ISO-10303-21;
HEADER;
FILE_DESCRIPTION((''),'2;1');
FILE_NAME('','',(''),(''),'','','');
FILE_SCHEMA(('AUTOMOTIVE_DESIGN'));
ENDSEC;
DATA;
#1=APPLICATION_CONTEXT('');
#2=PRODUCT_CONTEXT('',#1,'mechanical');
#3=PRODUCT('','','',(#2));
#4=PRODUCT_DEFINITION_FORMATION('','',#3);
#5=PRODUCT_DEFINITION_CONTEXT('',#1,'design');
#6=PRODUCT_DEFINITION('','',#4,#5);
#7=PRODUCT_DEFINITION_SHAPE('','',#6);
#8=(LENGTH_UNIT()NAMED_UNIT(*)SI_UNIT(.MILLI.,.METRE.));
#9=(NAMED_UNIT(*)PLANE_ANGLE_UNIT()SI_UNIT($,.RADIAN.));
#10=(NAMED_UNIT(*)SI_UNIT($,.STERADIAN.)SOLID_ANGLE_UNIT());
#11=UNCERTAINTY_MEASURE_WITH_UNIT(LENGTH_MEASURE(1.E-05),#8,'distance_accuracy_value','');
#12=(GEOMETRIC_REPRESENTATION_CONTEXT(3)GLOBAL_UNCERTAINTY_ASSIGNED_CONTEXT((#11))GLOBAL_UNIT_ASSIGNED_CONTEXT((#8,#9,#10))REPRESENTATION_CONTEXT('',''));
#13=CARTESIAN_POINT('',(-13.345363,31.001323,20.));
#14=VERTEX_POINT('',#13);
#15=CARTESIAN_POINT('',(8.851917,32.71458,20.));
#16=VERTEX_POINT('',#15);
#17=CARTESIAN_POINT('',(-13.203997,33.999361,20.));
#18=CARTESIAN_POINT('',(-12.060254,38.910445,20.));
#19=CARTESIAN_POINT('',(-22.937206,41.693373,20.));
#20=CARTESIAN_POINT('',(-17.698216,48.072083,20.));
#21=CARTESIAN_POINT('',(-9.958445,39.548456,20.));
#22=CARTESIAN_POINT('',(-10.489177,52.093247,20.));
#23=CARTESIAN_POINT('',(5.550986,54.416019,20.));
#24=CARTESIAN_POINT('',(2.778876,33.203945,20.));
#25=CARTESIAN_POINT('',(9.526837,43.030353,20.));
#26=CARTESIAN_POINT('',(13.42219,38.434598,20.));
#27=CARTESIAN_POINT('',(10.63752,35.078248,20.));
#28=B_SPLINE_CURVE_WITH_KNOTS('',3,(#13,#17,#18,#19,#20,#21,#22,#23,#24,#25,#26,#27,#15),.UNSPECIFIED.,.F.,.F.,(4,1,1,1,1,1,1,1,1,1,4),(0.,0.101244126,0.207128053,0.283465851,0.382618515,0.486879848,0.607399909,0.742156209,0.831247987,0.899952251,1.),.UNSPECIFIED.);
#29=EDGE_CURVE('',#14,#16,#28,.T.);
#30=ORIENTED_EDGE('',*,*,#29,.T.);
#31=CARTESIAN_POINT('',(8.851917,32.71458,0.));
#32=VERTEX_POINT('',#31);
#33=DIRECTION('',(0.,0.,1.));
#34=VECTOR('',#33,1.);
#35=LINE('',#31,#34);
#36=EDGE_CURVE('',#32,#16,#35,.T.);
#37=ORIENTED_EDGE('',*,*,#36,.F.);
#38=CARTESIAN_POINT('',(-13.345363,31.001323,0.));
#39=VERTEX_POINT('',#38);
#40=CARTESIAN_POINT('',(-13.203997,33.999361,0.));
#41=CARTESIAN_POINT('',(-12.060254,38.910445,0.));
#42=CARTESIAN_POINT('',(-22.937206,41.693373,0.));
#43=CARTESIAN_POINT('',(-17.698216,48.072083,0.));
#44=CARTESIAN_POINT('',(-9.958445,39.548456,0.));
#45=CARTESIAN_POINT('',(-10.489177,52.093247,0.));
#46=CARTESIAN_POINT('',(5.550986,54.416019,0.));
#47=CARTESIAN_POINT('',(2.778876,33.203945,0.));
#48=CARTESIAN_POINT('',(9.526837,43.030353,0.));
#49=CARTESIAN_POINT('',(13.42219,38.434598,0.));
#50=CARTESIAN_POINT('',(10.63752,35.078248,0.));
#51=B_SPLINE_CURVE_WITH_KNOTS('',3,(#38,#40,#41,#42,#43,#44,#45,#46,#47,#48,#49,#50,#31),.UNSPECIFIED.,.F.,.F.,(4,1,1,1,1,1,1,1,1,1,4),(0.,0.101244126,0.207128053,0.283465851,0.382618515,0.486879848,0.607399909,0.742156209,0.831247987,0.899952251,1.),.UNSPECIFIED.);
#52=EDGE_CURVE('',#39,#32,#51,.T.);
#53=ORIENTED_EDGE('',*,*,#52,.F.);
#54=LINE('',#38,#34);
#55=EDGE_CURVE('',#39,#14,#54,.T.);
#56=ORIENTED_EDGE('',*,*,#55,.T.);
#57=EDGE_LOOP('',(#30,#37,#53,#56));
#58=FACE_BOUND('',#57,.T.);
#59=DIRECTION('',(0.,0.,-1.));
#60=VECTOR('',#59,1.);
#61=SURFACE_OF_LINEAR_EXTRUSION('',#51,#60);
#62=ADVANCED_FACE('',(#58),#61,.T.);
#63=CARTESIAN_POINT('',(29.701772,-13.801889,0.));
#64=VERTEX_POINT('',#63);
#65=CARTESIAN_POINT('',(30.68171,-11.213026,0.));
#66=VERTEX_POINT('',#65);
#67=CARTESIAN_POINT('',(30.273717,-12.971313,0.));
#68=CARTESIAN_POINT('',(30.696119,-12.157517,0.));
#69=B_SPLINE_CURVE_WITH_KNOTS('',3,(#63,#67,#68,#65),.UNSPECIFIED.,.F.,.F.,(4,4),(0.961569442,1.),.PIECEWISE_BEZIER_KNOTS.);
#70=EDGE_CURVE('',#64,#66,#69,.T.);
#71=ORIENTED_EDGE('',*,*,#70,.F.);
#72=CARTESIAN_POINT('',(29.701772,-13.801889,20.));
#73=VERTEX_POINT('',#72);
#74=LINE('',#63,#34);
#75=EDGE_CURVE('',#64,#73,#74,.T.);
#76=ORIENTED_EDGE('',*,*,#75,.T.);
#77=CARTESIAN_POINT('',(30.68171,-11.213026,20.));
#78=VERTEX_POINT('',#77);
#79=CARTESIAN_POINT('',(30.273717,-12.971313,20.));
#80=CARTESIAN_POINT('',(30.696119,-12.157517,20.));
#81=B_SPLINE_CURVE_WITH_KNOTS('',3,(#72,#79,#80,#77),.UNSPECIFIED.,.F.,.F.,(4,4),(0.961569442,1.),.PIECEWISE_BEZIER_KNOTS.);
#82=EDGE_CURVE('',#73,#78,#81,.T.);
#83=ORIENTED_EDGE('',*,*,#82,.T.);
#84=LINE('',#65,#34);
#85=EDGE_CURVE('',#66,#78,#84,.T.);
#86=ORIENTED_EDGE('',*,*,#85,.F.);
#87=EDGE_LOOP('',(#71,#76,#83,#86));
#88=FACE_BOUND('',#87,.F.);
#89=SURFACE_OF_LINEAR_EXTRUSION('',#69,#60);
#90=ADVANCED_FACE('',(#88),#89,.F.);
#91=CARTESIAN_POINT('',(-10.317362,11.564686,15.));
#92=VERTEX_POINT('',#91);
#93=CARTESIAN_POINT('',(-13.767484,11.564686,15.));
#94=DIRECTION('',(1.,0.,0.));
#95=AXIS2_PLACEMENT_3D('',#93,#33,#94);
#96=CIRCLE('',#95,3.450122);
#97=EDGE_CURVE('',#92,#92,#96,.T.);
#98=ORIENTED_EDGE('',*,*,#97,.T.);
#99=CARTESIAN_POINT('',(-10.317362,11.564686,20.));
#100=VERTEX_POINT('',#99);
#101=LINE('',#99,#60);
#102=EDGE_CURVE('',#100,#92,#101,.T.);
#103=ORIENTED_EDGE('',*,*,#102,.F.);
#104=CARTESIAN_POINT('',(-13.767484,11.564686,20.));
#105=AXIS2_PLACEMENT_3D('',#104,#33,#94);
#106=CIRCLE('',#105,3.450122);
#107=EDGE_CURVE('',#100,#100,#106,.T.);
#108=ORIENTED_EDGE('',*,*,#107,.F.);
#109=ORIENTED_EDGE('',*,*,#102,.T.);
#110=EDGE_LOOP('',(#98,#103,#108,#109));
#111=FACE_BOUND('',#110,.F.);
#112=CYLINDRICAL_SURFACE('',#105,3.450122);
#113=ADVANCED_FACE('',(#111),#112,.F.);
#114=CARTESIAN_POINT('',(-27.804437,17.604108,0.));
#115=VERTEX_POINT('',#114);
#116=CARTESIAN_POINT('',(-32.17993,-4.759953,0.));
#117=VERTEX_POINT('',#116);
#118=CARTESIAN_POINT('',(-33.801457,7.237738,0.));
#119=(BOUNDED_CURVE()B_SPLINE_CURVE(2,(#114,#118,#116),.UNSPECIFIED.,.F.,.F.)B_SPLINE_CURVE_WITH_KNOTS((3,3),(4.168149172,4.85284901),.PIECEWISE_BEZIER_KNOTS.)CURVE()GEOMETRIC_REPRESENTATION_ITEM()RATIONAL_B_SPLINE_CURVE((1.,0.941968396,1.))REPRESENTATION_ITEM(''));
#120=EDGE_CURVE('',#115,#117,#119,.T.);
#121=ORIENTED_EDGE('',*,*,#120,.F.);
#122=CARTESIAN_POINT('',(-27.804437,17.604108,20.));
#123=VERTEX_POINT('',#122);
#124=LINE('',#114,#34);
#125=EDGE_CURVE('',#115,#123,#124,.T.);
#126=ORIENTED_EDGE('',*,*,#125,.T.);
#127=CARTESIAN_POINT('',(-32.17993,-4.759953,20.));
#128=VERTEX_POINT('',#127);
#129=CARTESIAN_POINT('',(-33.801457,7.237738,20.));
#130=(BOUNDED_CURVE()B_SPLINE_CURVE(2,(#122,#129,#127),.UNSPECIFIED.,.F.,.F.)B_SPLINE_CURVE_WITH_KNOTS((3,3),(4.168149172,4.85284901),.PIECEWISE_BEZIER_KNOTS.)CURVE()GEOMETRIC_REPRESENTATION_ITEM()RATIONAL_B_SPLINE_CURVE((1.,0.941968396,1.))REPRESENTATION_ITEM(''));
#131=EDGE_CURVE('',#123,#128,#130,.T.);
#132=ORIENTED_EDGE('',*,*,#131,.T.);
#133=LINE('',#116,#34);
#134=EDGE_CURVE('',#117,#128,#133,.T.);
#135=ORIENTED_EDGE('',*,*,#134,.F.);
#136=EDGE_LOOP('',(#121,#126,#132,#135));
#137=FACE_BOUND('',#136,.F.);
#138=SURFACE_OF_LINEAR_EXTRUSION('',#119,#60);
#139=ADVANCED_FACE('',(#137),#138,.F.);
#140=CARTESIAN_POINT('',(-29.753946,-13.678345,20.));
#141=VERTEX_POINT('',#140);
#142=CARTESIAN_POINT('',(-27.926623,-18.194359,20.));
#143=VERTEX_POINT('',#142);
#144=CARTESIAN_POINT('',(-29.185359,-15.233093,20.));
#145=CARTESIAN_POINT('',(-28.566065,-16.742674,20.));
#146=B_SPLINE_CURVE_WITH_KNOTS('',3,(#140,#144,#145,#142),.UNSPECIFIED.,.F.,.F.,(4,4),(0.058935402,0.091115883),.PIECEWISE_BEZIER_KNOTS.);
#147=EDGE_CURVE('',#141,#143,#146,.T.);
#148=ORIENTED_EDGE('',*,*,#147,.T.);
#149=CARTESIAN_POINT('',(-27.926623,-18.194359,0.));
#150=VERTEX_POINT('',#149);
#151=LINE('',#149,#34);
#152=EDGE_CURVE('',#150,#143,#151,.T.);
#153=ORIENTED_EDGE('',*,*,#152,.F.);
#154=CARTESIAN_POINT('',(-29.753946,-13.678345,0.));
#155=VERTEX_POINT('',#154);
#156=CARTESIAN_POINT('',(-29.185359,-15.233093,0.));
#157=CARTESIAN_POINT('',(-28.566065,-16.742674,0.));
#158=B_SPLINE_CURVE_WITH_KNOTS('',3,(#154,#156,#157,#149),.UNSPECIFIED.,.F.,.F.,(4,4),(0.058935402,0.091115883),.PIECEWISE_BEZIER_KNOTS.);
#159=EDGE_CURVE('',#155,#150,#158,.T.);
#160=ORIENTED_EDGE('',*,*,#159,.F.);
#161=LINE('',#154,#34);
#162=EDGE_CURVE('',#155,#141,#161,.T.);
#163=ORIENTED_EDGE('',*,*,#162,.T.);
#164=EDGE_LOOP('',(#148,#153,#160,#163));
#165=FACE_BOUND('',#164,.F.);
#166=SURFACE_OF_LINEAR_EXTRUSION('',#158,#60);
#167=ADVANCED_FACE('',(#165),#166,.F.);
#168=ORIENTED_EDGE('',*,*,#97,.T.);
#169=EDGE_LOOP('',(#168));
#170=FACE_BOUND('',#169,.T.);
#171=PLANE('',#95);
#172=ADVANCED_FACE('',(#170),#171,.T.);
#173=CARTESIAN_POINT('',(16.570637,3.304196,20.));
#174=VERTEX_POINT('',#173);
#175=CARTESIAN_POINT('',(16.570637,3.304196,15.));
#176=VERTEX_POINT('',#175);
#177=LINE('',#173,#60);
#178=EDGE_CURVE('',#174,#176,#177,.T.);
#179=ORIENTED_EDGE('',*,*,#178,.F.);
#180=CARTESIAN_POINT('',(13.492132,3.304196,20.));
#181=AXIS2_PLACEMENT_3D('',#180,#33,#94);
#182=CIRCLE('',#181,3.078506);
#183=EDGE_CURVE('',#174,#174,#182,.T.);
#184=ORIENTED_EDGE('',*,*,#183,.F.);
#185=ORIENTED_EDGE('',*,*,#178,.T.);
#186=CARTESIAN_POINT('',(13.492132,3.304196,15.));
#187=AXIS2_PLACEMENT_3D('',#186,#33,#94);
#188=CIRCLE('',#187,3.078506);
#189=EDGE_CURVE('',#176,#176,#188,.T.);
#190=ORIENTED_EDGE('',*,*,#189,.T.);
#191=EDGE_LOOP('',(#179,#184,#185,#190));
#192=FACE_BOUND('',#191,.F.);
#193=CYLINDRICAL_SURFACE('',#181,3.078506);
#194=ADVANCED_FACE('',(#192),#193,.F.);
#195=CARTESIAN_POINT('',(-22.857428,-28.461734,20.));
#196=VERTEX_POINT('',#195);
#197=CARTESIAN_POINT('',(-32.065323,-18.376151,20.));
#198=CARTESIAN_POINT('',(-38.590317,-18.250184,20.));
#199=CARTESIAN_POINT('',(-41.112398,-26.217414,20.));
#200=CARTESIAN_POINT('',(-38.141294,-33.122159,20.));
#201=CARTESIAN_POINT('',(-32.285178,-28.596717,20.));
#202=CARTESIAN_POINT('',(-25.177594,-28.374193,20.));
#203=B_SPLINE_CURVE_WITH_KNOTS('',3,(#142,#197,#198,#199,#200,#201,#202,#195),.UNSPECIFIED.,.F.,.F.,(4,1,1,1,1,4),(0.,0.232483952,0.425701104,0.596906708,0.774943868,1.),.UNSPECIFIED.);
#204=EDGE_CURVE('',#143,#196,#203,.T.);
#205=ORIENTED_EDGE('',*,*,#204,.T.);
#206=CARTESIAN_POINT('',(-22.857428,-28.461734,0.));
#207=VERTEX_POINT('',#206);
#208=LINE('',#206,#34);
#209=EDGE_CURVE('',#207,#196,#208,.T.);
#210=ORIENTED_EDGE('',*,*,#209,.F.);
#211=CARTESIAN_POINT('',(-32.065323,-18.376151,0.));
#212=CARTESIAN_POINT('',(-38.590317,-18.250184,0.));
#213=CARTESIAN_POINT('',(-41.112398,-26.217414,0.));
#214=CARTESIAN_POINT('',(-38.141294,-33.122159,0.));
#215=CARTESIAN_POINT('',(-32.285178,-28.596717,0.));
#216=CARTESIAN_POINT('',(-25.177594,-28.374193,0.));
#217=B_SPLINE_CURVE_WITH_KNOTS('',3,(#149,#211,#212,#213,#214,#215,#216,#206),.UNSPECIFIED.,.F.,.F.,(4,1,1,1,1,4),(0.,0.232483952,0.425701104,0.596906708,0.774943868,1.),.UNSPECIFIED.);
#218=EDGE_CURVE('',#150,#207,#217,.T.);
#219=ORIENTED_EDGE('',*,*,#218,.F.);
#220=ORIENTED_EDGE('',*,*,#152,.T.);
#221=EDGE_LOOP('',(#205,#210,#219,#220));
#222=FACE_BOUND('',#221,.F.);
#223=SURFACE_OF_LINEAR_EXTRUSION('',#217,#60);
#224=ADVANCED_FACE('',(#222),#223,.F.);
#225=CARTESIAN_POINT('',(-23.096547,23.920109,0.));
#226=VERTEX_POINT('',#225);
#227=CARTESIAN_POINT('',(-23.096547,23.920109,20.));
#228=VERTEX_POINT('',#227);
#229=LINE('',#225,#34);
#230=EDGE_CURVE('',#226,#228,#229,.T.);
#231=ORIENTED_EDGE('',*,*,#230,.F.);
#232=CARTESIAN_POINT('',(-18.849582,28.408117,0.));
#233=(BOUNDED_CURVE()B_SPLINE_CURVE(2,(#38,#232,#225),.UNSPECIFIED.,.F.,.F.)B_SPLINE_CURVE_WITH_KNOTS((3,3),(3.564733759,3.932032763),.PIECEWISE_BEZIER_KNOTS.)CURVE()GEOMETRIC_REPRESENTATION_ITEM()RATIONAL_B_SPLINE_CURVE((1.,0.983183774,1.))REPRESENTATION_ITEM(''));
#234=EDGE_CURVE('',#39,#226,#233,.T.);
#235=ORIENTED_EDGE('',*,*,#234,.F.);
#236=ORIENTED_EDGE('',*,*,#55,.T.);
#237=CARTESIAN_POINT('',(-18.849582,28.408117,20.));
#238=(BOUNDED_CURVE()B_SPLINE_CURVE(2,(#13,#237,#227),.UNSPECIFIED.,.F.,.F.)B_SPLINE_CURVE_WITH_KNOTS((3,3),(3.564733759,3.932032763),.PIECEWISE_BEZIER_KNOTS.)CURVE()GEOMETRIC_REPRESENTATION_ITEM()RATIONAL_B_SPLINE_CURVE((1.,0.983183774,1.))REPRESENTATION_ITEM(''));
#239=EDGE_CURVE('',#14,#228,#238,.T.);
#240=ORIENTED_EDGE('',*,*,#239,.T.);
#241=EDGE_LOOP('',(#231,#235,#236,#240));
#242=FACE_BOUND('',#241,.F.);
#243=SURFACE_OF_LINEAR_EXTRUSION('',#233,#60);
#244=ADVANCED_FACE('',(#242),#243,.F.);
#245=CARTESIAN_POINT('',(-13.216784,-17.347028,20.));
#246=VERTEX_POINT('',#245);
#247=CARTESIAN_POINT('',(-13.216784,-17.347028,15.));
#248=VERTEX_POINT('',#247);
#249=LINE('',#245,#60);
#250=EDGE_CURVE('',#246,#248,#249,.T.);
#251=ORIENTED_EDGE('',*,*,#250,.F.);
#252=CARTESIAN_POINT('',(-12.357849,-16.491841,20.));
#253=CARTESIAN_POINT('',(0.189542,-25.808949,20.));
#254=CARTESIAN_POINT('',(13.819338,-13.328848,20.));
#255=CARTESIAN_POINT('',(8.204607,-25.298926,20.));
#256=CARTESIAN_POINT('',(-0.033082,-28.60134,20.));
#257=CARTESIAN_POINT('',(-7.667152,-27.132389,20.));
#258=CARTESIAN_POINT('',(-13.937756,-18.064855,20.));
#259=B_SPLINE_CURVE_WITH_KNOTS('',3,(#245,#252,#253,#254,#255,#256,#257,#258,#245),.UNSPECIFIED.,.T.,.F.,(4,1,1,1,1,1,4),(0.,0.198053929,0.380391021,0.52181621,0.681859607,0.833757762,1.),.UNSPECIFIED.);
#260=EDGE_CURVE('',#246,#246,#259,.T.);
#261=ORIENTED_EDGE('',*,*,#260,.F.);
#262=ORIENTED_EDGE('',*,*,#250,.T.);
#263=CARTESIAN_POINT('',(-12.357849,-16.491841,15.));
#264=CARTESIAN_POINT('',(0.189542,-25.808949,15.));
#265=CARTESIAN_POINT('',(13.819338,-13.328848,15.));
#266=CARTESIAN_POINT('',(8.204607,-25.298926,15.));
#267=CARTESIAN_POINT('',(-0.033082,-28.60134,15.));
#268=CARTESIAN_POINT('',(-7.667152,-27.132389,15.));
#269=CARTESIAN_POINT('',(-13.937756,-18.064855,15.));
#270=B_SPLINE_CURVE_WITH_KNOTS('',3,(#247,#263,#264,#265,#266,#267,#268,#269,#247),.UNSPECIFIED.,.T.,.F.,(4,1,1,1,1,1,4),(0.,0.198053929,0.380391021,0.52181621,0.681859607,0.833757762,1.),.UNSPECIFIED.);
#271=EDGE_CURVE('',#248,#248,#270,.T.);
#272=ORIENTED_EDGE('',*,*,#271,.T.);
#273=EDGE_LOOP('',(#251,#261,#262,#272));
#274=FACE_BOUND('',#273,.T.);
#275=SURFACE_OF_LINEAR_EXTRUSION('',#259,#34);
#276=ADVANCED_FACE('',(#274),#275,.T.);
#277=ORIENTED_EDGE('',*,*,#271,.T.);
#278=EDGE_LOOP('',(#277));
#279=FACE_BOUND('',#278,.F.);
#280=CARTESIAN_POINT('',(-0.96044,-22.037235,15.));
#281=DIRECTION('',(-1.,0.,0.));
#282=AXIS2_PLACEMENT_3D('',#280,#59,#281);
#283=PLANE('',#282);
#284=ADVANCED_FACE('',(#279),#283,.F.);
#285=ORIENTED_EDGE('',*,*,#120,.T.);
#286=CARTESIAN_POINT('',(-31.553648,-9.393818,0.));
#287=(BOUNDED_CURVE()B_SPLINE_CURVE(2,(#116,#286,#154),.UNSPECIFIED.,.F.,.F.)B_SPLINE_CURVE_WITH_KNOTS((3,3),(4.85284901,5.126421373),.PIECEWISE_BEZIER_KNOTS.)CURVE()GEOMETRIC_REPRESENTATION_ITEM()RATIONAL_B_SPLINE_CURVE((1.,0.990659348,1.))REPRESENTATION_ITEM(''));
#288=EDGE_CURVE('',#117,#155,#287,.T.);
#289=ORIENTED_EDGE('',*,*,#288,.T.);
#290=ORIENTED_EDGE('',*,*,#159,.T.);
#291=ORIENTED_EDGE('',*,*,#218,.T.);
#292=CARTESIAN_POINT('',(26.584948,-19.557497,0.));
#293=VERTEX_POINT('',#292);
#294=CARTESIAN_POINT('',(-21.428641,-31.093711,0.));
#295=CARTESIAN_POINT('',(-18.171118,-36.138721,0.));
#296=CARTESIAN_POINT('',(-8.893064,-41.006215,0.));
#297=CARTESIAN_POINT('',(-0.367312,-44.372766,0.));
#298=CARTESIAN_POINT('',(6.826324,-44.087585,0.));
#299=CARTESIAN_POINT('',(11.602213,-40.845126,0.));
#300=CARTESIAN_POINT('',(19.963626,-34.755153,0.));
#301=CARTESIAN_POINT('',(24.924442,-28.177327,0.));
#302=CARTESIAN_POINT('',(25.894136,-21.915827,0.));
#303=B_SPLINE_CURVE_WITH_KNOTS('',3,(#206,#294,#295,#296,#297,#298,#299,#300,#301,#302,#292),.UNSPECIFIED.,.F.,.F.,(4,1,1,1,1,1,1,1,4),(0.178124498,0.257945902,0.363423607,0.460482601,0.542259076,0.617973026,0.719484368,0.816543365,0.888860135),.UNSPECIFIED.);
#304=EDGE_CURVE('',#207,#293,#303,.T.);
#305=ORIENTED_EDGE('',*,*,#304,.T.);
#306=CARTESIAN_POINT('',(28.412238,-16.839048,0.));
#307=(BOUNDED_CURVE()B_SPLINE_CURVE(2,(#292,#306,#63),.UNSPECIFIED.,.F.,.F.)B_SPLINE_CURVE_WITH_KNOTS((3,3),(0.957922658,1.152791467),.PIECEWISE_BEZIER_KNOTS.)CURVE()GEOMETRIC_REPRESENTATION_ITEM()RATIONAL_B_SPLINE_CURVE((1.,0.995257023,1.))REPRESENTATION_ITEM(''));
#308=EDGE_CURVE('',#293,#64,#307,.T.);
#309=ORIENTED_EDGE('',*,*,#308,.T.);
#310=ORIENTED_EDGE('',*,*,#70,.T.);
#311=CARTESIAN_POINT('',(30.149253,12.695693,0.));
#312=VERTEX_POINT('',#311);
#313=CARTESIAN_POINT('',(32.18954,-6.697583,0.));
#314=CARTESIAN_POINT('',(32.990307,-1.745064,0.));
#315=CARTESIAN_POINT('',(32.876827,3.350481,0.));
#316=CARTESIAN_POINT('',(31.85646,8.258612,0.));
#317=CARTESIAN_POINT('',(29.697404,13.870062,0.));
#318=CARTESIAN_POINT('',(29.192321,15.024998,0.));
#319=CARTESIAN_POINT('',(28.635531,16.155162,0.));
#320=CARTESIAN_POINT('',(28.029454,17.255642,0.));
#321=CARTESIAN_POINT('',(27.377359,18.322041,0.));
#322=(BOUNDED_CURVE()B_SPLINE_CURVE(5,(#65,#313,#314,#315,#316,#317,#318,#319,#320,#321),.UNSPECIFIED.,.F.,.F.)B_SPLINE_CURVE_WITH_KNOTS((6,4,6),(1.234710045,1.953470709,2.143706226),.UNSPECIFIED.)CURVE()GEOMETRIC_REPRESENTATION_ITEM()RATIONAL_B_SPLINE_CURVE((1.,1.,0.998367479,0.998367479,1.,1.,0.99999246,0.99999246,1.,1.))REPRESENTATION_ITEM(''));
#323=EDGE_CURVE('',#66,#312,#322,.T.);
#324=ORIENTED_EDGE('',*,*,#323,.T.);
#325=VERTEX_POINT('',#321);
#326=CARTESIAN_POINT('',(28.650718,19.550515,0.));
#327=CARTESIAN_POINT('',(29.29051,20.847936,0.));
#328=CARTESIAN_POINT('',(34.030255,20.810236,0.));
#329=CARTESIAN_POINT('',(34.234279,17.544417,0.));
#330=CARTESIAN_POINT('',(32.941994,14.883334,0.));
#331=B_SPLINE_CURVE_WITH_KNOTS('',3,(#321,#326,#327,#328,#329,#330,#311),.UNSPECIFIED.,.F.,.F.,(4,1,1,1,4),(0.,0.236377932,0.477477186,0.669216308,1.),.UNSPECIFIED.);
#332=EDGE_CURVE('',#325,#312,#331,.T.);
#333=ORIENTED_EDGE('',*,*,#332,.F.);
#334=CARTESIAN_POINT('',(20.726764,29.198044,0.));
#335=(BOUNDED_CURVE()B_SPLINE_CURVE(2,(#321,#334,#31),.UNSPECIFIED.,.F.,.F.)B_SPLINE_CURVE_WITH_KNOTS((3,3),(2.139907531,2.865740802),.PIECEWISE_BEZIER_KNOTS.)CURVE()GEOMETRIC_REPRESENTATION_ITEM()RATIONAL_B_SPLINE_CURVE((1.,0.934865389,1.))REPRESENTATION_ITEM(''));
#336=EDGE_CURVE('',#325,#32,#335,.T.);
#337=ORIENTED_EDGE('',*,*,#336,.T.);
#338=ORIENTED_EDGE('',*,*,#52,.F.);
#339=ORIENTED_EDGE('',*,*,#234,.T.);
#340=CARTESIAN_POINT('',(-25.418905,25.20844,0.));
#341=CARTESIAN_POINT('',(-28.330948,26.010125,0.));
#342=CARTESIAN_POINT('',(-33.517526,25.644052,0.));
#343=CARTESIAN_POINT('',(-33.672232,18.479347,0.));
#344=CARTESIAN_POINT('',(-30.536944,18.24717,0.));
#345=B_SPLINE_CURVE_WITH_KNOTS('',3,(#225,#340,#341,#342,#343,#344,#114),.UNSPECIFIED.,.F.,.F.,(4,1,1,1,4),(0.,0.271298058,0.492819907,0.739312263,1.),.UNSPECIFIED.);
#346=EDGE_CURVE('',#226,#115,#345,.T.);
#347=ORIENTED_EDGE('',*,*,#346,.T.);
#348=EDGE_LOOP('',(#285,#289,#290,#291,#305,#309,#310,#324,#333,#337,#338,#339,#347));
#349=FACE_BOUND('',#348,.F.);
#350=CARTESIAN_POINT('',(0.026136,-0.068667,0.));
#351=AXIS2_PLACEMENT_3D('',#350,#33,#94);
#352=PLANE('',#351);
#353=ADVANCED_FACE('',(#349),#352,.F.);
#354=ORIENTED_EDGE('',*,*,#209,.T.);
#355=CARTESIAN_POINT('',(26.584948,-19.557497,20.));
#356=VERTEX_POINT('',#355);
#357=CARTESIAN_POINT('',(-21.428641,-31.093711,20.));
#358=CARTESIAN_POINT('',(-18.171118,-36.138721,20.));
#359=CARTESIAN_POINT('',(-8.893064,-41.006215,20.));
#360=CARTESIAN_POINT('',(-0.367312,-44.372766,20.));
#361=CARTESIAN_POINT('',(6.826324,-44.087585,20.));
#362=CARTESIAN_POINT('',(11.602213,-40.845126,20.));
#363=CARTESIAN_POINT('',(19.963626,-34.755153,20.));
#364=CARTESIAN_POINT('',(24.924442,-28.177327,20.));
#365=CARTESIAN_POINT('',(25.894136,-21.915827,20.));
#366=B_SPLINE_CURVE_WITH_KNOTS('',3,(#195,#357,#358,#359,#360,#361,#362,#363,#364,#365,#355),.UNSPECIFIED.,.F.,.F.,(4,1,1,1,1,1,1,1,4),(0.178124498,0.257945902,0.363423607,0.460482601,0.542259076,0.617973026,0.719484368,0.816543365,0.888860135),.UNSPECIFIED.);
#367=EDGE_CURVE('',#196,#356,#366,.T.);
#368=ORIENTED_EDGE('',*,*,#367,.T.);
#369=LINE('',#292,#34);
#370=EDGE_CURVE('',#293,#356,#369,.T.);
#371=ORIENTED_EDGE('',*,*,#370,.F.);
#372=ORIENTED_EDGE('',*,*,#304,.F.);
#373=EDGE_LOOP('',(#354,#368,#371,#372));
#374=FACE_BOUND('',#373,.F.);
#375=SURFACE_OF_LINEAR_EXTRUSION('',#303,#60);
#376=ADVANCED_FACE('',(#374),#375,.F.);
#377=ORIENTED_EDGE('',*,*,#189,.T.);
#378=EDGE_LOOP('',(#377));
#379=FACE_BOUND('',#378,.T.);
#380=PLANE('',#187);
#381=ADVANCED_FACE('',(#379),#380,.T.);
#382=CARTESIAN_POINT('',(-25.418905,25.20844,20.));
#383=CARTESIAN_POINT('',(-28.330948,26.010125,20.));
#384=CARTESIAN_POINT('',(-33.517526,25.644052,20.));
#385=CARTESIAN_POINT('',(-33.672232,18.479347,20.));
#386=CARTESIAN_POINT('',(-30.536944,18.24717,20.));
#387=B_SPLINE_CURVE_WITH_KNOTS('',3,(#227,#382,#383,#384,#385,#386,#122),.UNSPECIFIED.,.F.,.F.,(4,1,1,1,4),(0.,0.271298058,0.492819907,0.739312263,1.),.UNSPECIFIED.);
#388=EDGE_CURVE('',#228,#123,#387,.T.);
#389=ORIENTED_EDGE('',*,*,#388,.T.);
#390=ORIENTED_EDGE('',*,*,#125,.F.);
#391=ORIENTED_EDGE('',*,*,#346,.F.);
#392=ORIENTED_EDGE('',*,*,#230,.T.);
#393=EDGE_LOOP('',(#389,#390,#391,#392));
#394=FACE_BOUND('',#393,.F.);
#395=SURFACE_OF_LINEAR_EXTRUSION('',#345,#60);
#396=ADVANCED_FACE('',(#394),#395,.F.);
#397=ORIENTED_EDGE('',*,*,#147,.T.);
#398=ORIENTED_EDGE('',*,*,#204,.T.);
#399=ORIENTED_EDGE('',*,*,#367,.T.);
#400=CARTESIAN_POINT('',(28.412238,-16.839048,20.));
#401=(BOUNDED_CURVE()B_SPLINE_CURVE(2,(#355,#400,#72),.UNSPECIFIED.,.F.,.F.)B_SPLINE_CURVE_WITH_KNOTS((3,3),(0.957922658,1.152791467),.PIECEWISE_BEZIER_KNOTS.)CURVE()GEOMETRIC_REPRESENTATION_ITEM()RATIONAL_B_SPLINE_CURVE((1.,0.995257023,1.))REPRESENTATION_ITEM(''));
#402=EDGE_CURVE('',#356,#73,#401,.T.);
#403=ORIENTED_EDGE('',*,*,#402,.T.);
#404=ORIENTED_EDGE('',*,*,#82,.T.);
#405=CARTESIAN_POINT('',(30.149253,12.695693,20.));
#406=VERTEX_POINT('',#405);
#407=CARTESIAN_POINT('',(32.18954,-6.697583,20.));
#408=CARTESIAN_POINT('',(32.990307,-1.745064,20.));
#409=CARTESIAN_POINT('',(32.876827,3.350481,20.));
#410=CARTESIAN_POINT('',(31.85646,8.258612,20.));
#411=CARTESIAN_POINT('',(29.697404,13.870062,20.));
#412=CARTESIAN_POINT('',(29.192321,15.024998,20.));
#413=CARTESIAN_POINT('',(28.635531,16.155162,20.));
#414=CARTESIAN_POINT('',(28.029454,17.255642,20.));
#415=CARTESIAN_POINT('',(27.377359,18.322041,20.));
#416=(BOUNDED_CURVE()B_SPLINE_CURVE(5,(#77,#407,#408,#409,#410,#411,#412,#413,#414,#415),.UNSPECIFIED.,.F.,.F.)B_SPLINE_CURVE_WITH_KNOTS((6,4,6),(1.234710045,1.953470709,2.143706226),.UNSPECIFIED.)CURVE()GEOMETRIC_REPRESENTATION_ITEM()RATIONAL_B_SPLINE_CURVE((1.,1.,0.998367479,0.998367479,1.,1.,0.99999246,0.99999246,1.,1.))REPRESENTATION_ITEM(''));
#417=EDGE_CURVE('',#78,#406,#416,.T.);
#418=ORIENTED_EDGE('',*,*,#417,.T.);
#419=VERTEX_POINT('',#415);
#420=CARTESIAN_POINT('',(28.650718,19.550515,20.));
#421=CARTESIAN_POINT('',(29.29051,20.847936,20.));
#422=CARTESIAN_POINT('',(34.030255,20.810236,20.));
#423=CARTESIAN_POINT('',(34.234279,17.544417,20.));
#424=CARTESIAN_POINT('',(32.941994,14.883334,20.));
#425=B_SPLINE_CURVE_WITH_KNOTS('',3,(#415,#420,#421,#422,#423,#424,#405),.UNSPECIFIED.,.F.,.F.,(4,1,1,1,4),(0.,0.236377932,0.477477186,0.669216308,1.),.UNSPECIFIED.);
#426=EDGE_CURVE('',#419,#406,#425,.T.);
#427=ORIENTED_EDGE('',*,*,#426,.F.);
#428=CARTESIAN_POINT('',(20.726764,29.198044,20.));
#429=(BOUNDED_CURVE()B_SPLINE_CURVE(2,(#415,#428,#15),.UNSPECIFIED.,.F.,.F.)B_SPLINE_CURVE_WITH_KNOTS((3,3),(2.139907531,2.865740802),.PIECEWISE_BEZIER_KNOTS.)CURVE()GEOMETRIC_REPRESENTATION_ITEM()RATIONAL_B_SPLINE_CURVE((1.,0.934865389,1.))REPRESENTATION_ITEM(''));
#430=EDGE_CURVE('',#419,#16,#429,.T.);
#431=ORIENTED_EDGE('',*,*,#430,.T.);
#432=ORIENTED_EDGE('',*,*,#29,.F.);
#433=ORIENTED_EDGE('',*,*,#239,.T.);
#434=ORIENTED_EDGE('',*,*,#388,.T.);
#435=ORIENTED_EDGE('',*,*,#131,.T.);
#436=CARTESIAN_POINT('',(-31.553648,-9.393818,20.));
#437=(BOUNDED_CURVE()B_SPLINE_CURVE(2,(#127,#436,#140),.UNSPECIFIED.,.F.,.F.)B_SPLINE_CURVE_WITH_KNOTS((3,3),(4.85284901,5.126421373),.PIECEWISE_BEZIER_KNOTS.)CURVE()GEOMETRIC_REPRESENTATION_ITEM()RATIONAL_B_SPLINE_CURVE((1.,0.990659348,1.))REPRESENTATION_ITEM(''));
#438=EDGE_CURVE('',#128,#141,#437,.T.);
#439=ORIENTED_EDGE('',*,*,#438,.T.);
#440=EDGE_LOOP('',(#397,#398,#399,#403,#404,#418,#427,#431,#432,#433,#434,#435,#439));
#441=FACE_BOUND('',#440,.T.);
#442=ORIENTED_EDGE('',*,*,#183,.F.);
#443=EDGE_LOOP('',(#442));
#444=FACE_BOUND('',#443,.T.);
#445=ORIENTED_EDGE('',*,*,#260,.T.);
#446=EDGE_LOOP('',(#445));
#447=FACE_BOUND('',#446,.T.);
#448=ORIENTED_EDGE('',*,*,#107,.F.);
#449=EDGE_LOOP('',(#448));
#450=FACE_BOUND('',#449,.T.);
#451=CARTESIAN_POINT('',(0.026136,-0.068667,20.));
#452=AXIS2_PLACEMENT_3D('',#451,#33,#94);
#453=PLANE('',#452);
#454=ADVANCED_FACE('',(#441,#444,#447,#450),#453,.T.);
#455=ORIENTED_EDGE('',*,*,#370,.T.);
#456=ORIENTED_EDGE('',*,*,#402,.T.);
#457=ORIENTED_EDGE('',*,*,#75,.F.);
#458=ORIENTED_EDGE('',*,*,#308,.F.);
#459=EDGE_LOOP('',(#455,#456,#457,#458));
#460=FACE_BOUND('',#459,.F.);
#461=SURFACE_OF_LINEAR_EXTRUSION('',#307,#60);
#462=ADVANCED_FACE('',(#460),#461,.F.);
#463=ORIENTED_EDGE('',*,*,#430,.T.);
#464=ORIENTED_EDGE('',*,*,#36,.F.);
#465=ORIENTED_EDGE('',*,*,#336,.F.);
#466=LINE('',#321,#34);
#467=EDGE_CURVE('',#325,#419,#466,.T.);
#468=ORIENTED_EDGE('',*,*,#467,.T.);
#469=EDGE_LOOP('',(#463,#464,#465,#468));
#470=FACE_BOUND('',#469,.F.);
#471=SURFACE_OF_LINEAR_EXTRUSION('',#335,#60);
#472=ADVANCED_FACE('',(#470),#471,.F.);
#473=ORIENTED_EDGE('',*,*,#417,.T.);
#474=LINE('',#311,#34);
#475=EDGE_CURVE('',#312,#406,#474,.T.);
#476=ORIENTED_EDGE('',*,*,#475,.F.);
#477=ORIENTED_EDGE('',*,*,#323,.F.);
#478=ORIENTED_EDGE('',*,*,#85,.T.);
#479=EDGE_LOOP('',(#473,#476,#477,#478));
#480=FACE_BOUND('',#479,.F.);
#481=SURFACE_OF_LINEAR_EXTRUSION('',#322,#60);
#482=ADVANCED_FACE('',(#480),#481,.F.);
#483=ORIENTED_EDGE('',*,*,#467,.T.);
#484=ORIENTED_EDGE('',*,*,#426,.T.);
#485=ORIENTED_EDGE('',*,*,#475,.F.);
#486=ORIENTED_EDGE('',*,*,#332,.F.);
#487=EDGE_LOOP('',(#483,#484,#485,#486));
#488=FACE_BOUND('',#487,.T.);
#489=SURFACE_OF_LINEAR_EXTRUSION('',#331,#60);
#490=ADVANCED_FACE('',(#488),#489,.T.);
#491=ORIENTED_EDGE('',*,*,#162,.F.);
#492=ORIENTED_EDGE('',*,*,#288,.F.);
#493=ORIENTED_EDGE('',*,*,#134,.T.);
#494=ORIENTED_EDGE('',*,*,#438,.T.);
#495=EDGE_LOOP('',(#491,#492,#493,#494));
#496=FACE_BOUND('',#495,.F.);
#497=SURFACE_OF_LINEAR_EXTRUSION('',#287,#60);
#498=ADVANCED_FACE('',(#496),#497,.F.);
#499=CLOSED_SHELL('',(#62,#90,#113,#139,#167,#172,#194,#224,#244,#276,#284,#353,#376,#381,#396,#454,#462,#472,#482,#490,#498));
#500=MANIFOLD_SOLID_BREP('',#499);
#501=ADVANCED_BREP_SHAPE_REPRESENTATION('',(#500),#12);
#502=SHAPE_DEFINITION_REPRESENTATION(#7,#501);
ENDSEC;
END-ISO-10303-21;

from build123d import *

# Parameters (mm, degrees)
F1_DEPTH = 20
F2_R     = 3.450121942
F2_R_2   = 3.0785056901
F3_DEPTH = 5


with BuildPart() as f1:
    # F0 (on Top) → F1 (new body)
    with BuildSketch(Plane.XY):
        with BuildLine():
            add(Edge.make_bspline(
                [(29.7017715109, -13.8018886657), (30.2424490524, -12.5284639479), (30.6817100321, -11.213025644)],
                knots=[1.1527914673, 1.1527914673, 1.1527914673, 1.2347100445, 1.2347100445, 1.2347100445], degree=2, weights=[1, 0.9991612856, 1]))
            add(Edge.make_bspline(
                [(30.6817100321, -11.213025644), (34.708540224, 0.8459709936), (30.1492533044, 12.695693315)],
                knots=[1.2347100445, 1.2347100445, 1.2347100445, 1.9534707094, 1.9534707094, 1.9534707094], degree=2, weights=[1, 0.9361149369, 1]))
            add(Edge.make_bspline(
                [(30.1492533044, 12.695693315), (29.0147047765, 15.6444186865), (27.3773586249, 18.3220409535)],
                knots=[1.9534707094, 1.9534707094, 1.9534707094, 2.1399075308, 2.1399075308, 2.1399075308], degree=2, weights=[1, 0.9956583093, 1]))
            add(Edge.make_bspline(
                [(27.3773586249, 18.3220409535), (20.7267636074, 29.19804374), (8.8519171525, 32.7145800478)],
                knots=[2.1399075308, 2.1399075308, 2.1399075308, 2.8657408022, 2.8657408022, 2.8657408022], degree=2, weights=[1, 0.9348653888, 1]))
            add(Edge.make_bspline(
                [(8.8519171525, 32.7145800478), (-2.5451541307, 36.089631264), (-13.3453627293, 31.0013230552)],
                knots=[2.8657408022, 2.8657408022, 2.8657408022, 3.5647337592, 3.5647337592, 3.5647337592], degree=2, weights=[1, 0.9395452502, 1]))
            add(Edge.make_bspline(
                [(-13.3453627293, 31.0013230552), (-18.8495819488, 28.4081172313), (-23.096546599, 23.9201088971)],
                knots=[3.5647337592, 3.5647337592, 3.5647337592, 3.9320327626, 3.9320327626, 3.9320327626], degree=2, weights=[1, 0.9831837737, 1]))
            add(Edge.make_bspline(
                [(-23.096546599, 23.9201088971), (-25.8085364067, 21.0541955067), (-27.8044370726, 17.6041079287)],
                knots=[3.9320327626, 3.9320327626, 3.9320327626, 4.1681491719, 4.1681491719, 4.1681491719], degree=2, weights=[1, 0.9930392206, 1]))
            add(Edge.make_bspline(
                [(-27.8044370726, 17.6041079287), (-33.8014571444, 7.2377380943), (-32.1799301678, -4.7599533709)],
                knots=[4.1681491719, 4.1681491719, 4.1681491719, 4.85284901, 4.85284901, 4.85284901], degree=2, weights=[1, 0.9419683956, 1]))
            add(Edge.make_bspline(
                [(-32.1799301678, -4.7599533709), (-31.6664898484, -7.8321181347), (-30.7952557297, -10.8309770505), (-29.7539456963, -13.6783451409)],
                knots=[0, 0, 0, 0, 0.0589354021, 0.0589354021, 0.0589354021, 0.0589354021], degree=3))
            add(Edge.make_bspline(
                [(-29.7539456963, -13.6783451409), (-21.2178956859, -34), (0, -34)],
                knots=[5.1264213734, 5.1264213734, 5.1264213734, 6.2831853072, 6.2831853072, 6.2831853072], degree=2, weights=[1, 0.8373482755, 1]))
            add(Edge.make_bspline(
                [(0, -34), (16.8769695088, -34), (26.5849481495, -19.5574965996)],
                knots=[0, 0, 0, 0.9579226583, 0.9579226583, 0.9579226583], degree=2, weights=[1, 0.8874740808, 1]))
            add(Edge.make_bspline(
                [(26.5849481495, -19.5574965996), (26.8844022138, -18.5352047025), (27.6995992329, -16.3013966795), (29.0862082372, -14.6958061684), (29.7017715109, -13.8018886657)],
                knots=[0.8888601347, 0.8888601347, 0.8888601347, 0.8888601347, 0.9202080916, 0.9615694415, 0.9615694415, 0.9615694415, 0.9615694415], degree=3))
        make_face()
        with BuildLine():
            add(Edge.make_bspline(
                [(29.7017715109, -13.8018886657), (30.2737170696, -12.9713125619), (30.6961194256, -12.1575167226), (30.6817100321, -11.213025644)],
                knots=[0.9615694415, 0.9615694415, 0.9615694415, 0.9615694415, 1, 1, 1, 1], degree=3))
            add(Edge.make_bspline(
                [(29.7017715109, -13.8018886657), (30.2424490524, -12.5284639479), (30.6817100321, -11.213025644)],
                knots=[1.1527914673, 1.1527914673, 1.1527914673, 1.2347100445, 1.2347100445, 1.2347100445], degree=2, weights=[1, 0.9991612856, 1]))
        make_face()
        with BuildLine():
            add(Edge.make_bspline(
                [(30.1492533044, 12.695693315), (29.0147047765, 15.6444186865), (27.3773586249, 18.3220409535)],
                knots=[1.9534707094, 1.9534707094, 1.9534707094, 2.1399075308, 2.1399075308, 2.1399075308], degree=2, weights=[1, 0.9956583093, 1]))
            add(Edge.make_bspline(
                [(27.3773586249, 18.3220409535), (28.6507177117, 19.5505148249), (29.2905101337, 20.8479356906), (34.0302548794, 20.8102361344), (34.2342793663, 17.5444166895), (32.9419942754, 14.8833340498), (30.1492533044, 12.695693315)],
                knots=[0, 0, 0, 0, 0.2363779321, 0.4774771861, 0.6692163083, 1, 1, 1, 1], degree=3))
        make_face()
        with BuildLine():
            add(Edge.make_bspline(
                [(26.5849481495, -19.5574965996), (28.4122378854, -16.8390482797), (29.7017715109, -13.8018886657)],
                knots=[0.9579226583, 0.9579226583, 0.9579226583, 1.1527914673, 1.1527914673, 1.1527914673], degree=2, weights=[1, 0.9952570225, 1]))
            add(Edge.make_bspline(
                [(26.5849481495, -19.5574965996), (26.8844022138, -18.5352047025), (27.6995992329, -16.3013966795), (29.0862082372, -14.6958061684), (29.7017715109, -13.8018886657)],
                knots=[0.8888601347, 0.8888601347, 0.8888601347, 0.8888601347, 0.9202080916, 0.9615694415, 0.9615694415, 0.9615694415, 0.9615694415], degree=3))
        make_face()
        with BuildLine():
            add(Edge.make_bspline(
                [(-22.8574276114, -28.461734013), (-21.4286408263, -31.0937109557), (-18.1711184134, -36.1387207151), (-8.8930644294, -41.0062149861), (-0.3673117397, -44.372766183), (6.8263243633, -44.0875854195), (11.6022133081, -40.8451261159), (19.9636257208, -34.7551525668), (24.9244424304, -28.1773265534), (25.8941359668, -21.9158272447), (26.5849481495, -19.5574965996)],
                knots=[0.1781244977, 0.1781244977, 0.1781244977, 0.1781244977, 0.2579459018, 0.3634236066, 0.4604826011, 0.5422590758, 0.6179730258, 0.7194843685, 0.8165433653, 0.8888601347, 0.8888601347, 0.8888601347, 0.8888601347], degree=3))
            add(Edge.make_bspline(
                [(0, -34), (16.8769695088, -34), (26.5849481495, -19.5574965996)],
                knots=[0, 0, 0, 0.9579226583, 0.9579226583, 0.9579226583], degree=2, weights=[1, 0.8874740808, 1]))
            add(Edge.make_bspline(
                [(-29.7539456963, -13.6783451409), (-21.2178956859, -34), (0, -34)],
                knots=[5.1264213734, 5.1264213734, 5.1264213734, 6.2831853072, 6.2831853072, 6.2831853072], degree=2, weights=[1, 0.8373482755, 1]))
            add(Edge.make_bspline(
                [(-29.7539456963, -13.6783451409), (-29.1853594736, -15.2330927331), (-28.5660653802, -16.7426735704), (-27.9266234964, -18.1943593012)],
                knots=[0.0589354021, 0.0589354021, 0.0589354021, 0.0589354021, 0.0911158831, 0.0911158831, 0.0911158831, 0.0911158831], degree=3))
            add(Edge.make_bspline(
                [(-27.9266234964, -18.1943593012), (-26.7572374034, -20.8491449008), (-24.928711996, -24.4879039219), (-23.361453992, -27.5332639109), (-22.8574276114, -28.461734013)],
                knots=[0.0911158831, 0.0911158831, 0.0911158831, 0.0911158831, 0.1499662771, 0.1781244977, 0.1781244977, 0.1781244977, 0.1781244977], degree=3))
        make_face()
        with BuildLine():
            add(Edge.make_bspline(
                [(8.8519171525, 32.7145800478), (-2.5451541307, 36.089631264), (-13.3453627293, 31.0013230552)],
                knots=[2.8657408022, 2.8657408022, 2.8657408022, 3.5647337592, 3.5647337592, 3.5647337592], degree=2, weights=[1, 0.9395452502, 1]))
            add(Edge.make_bspline(
                [(-13.3453627293, 31.0013230552), (-13.2039965664, 33.9993611407), (-12.0602535423, 38.9104448386), (-22.9372056925, 41.6933726664), (-17.6982155529, 48.0720825188), (-9.9584447601, 39.5484563713), (-10.4891769636, 52.093246964), (5.5509861472, 54.4160194147), (2.7788756697, 33.20394535), (9.5268371974, 43.0303530604), (13.4221900935, 38.4345977615), (10.6375198636, 35.0782475925), (8.8519171525, 32.7145800478)],
                knots=[0, 0, 0, 0, 0.1012441255, 0.2071280529, 0.2834658507, 0.3826185153, 0.4868798478, 0.6073999093, 0.7421562093, 0.8312479872, 0.8999522506, 1, 1, 1, 1], degree=3))
        make_face()
        with BuildLine():
            add(Edge.make_bspline(
                [(-27.9266234964, -18.1943593012), (-32.0653232012, -18.3761505405), (-38.5903169407, -18.2501835864), (-41.1123982372, -26.2174139351), (-38.141293842, -33.1221590015), (-32.2851784627, -28.5967174666), (-25.1775943875, -28.374192964), (-22.8574276114, -28.461734013)],
                knots=[0, 0, 0, 0, 0.2324839523, 0.4257011039, 0.5969067076, 0.7749438679, 1, 1, 1, 1], degree=3))
            add(Edge.make_bspline(
                [(-27.9266234964, -18.1943593012), (-26.7572374034, -20.8491449008), (-24.928711996, -24.4879039219), (-23.361453992, -27.5332639109), (-22.8574276114, -28.461734013)],
                knots=[0.0911158831, 0.0911158831, 0.0911158831, 0.0911158831, 0.1499662771, 0.1781244977, 0.1781244977, 0.1781244977, 0.1781244977], degree=3))
        make_face()
        with BuildLine():
            add(Edge.make_bspline(
                [(-32.1799301678, -4.7599533709), (-31.5536482494, -9.3938184466), (-29.7539456963, -13.6783451409)],
                knots=[4.85284901, 4.85284901, 4.85284901, 5.1264213734, 5.1264213734, 5.1264213734], degree=2, weights=[1, 0.9906593479, 1]))
            add(Edge.make_bspline(
                [(-32.1799301678, -4.7599533709), (-31.6664898484, -7.8321181347), (-30.7952557297, -10.8309770505), (-29.7539456963, -13.6783451409)],
                knots=[0, 0, 0, 0, 0.0589354021, 0.0589354021, 0.0589354021, 0.0589354021], degree=3))
        make_face()
        with BuildLine():
            add(Edge.make_bspline(
                [(-23.096546599, 23.9201088971), (-25.8085364067, 21.0541955067), (-27.8044370726, 17.6041079287)],
                knots=[3.9320327626, 3.9320327626, 3.9320327626, 4.1681491719, 4.1681491719, 4.1681491719], degree=2, weights=[1, 0.9930392206, 1]))
            add(Edge.make_bspline(
                [(-23.096546599, 23.9201088971), (-25.4189054895, 25.2084401928), (-28.3309475052, 26.0101253596), (-33.5175261395, 25.6440523755), (-33.6722318056, 18.4793473822), (-30.536944075, 18.2471703796), (-27.8044370726, 17.6041079287)],
                knots=[0, 0, 0, 0, 0.2712980575, 0.4928199065, 0.7393122626, 1, 1, 1, 1], degree=3))
        make_face()
    extrude(amount=F1_DEPTH)

    # F2 (on face) → F3 (cut)
    with BuildSketch(Plane.XY.offset(20)):
        with Locations((-13.7674836442, 11.5646859631)):
            Circle(F2_R)
        with Locations((13.4921316057, 3.3041958231)):
            Circle(F2_R_2)
        with BuildLine():
            add(Edge.make_bspline(
                [(-13.2167842239, -17.347028479), (-12.3578494347, -16.491840797), (0.1895415623, -25.8089492741), (13.8193383715, -13.3288482801), (8.2046070442, -25.2989261468), (-0.0330815413, -28.6013395639), (-7.6671517835, -27.1323886799), (-13.9377557378, -18.0648547511), (-13.2167842239, -17.347028479)],
                knots=[0, 0, 0, 0, 0.1980539293, 0.3803910215, 0.5218162101, 0.6818596072, 0.8337577625, 1, 1, 1, 1], degree=3))
        make_face()
    extrude(amount=-F3_DEPTH, mode=Mode.SUBTRACT)


solid = f1.part
